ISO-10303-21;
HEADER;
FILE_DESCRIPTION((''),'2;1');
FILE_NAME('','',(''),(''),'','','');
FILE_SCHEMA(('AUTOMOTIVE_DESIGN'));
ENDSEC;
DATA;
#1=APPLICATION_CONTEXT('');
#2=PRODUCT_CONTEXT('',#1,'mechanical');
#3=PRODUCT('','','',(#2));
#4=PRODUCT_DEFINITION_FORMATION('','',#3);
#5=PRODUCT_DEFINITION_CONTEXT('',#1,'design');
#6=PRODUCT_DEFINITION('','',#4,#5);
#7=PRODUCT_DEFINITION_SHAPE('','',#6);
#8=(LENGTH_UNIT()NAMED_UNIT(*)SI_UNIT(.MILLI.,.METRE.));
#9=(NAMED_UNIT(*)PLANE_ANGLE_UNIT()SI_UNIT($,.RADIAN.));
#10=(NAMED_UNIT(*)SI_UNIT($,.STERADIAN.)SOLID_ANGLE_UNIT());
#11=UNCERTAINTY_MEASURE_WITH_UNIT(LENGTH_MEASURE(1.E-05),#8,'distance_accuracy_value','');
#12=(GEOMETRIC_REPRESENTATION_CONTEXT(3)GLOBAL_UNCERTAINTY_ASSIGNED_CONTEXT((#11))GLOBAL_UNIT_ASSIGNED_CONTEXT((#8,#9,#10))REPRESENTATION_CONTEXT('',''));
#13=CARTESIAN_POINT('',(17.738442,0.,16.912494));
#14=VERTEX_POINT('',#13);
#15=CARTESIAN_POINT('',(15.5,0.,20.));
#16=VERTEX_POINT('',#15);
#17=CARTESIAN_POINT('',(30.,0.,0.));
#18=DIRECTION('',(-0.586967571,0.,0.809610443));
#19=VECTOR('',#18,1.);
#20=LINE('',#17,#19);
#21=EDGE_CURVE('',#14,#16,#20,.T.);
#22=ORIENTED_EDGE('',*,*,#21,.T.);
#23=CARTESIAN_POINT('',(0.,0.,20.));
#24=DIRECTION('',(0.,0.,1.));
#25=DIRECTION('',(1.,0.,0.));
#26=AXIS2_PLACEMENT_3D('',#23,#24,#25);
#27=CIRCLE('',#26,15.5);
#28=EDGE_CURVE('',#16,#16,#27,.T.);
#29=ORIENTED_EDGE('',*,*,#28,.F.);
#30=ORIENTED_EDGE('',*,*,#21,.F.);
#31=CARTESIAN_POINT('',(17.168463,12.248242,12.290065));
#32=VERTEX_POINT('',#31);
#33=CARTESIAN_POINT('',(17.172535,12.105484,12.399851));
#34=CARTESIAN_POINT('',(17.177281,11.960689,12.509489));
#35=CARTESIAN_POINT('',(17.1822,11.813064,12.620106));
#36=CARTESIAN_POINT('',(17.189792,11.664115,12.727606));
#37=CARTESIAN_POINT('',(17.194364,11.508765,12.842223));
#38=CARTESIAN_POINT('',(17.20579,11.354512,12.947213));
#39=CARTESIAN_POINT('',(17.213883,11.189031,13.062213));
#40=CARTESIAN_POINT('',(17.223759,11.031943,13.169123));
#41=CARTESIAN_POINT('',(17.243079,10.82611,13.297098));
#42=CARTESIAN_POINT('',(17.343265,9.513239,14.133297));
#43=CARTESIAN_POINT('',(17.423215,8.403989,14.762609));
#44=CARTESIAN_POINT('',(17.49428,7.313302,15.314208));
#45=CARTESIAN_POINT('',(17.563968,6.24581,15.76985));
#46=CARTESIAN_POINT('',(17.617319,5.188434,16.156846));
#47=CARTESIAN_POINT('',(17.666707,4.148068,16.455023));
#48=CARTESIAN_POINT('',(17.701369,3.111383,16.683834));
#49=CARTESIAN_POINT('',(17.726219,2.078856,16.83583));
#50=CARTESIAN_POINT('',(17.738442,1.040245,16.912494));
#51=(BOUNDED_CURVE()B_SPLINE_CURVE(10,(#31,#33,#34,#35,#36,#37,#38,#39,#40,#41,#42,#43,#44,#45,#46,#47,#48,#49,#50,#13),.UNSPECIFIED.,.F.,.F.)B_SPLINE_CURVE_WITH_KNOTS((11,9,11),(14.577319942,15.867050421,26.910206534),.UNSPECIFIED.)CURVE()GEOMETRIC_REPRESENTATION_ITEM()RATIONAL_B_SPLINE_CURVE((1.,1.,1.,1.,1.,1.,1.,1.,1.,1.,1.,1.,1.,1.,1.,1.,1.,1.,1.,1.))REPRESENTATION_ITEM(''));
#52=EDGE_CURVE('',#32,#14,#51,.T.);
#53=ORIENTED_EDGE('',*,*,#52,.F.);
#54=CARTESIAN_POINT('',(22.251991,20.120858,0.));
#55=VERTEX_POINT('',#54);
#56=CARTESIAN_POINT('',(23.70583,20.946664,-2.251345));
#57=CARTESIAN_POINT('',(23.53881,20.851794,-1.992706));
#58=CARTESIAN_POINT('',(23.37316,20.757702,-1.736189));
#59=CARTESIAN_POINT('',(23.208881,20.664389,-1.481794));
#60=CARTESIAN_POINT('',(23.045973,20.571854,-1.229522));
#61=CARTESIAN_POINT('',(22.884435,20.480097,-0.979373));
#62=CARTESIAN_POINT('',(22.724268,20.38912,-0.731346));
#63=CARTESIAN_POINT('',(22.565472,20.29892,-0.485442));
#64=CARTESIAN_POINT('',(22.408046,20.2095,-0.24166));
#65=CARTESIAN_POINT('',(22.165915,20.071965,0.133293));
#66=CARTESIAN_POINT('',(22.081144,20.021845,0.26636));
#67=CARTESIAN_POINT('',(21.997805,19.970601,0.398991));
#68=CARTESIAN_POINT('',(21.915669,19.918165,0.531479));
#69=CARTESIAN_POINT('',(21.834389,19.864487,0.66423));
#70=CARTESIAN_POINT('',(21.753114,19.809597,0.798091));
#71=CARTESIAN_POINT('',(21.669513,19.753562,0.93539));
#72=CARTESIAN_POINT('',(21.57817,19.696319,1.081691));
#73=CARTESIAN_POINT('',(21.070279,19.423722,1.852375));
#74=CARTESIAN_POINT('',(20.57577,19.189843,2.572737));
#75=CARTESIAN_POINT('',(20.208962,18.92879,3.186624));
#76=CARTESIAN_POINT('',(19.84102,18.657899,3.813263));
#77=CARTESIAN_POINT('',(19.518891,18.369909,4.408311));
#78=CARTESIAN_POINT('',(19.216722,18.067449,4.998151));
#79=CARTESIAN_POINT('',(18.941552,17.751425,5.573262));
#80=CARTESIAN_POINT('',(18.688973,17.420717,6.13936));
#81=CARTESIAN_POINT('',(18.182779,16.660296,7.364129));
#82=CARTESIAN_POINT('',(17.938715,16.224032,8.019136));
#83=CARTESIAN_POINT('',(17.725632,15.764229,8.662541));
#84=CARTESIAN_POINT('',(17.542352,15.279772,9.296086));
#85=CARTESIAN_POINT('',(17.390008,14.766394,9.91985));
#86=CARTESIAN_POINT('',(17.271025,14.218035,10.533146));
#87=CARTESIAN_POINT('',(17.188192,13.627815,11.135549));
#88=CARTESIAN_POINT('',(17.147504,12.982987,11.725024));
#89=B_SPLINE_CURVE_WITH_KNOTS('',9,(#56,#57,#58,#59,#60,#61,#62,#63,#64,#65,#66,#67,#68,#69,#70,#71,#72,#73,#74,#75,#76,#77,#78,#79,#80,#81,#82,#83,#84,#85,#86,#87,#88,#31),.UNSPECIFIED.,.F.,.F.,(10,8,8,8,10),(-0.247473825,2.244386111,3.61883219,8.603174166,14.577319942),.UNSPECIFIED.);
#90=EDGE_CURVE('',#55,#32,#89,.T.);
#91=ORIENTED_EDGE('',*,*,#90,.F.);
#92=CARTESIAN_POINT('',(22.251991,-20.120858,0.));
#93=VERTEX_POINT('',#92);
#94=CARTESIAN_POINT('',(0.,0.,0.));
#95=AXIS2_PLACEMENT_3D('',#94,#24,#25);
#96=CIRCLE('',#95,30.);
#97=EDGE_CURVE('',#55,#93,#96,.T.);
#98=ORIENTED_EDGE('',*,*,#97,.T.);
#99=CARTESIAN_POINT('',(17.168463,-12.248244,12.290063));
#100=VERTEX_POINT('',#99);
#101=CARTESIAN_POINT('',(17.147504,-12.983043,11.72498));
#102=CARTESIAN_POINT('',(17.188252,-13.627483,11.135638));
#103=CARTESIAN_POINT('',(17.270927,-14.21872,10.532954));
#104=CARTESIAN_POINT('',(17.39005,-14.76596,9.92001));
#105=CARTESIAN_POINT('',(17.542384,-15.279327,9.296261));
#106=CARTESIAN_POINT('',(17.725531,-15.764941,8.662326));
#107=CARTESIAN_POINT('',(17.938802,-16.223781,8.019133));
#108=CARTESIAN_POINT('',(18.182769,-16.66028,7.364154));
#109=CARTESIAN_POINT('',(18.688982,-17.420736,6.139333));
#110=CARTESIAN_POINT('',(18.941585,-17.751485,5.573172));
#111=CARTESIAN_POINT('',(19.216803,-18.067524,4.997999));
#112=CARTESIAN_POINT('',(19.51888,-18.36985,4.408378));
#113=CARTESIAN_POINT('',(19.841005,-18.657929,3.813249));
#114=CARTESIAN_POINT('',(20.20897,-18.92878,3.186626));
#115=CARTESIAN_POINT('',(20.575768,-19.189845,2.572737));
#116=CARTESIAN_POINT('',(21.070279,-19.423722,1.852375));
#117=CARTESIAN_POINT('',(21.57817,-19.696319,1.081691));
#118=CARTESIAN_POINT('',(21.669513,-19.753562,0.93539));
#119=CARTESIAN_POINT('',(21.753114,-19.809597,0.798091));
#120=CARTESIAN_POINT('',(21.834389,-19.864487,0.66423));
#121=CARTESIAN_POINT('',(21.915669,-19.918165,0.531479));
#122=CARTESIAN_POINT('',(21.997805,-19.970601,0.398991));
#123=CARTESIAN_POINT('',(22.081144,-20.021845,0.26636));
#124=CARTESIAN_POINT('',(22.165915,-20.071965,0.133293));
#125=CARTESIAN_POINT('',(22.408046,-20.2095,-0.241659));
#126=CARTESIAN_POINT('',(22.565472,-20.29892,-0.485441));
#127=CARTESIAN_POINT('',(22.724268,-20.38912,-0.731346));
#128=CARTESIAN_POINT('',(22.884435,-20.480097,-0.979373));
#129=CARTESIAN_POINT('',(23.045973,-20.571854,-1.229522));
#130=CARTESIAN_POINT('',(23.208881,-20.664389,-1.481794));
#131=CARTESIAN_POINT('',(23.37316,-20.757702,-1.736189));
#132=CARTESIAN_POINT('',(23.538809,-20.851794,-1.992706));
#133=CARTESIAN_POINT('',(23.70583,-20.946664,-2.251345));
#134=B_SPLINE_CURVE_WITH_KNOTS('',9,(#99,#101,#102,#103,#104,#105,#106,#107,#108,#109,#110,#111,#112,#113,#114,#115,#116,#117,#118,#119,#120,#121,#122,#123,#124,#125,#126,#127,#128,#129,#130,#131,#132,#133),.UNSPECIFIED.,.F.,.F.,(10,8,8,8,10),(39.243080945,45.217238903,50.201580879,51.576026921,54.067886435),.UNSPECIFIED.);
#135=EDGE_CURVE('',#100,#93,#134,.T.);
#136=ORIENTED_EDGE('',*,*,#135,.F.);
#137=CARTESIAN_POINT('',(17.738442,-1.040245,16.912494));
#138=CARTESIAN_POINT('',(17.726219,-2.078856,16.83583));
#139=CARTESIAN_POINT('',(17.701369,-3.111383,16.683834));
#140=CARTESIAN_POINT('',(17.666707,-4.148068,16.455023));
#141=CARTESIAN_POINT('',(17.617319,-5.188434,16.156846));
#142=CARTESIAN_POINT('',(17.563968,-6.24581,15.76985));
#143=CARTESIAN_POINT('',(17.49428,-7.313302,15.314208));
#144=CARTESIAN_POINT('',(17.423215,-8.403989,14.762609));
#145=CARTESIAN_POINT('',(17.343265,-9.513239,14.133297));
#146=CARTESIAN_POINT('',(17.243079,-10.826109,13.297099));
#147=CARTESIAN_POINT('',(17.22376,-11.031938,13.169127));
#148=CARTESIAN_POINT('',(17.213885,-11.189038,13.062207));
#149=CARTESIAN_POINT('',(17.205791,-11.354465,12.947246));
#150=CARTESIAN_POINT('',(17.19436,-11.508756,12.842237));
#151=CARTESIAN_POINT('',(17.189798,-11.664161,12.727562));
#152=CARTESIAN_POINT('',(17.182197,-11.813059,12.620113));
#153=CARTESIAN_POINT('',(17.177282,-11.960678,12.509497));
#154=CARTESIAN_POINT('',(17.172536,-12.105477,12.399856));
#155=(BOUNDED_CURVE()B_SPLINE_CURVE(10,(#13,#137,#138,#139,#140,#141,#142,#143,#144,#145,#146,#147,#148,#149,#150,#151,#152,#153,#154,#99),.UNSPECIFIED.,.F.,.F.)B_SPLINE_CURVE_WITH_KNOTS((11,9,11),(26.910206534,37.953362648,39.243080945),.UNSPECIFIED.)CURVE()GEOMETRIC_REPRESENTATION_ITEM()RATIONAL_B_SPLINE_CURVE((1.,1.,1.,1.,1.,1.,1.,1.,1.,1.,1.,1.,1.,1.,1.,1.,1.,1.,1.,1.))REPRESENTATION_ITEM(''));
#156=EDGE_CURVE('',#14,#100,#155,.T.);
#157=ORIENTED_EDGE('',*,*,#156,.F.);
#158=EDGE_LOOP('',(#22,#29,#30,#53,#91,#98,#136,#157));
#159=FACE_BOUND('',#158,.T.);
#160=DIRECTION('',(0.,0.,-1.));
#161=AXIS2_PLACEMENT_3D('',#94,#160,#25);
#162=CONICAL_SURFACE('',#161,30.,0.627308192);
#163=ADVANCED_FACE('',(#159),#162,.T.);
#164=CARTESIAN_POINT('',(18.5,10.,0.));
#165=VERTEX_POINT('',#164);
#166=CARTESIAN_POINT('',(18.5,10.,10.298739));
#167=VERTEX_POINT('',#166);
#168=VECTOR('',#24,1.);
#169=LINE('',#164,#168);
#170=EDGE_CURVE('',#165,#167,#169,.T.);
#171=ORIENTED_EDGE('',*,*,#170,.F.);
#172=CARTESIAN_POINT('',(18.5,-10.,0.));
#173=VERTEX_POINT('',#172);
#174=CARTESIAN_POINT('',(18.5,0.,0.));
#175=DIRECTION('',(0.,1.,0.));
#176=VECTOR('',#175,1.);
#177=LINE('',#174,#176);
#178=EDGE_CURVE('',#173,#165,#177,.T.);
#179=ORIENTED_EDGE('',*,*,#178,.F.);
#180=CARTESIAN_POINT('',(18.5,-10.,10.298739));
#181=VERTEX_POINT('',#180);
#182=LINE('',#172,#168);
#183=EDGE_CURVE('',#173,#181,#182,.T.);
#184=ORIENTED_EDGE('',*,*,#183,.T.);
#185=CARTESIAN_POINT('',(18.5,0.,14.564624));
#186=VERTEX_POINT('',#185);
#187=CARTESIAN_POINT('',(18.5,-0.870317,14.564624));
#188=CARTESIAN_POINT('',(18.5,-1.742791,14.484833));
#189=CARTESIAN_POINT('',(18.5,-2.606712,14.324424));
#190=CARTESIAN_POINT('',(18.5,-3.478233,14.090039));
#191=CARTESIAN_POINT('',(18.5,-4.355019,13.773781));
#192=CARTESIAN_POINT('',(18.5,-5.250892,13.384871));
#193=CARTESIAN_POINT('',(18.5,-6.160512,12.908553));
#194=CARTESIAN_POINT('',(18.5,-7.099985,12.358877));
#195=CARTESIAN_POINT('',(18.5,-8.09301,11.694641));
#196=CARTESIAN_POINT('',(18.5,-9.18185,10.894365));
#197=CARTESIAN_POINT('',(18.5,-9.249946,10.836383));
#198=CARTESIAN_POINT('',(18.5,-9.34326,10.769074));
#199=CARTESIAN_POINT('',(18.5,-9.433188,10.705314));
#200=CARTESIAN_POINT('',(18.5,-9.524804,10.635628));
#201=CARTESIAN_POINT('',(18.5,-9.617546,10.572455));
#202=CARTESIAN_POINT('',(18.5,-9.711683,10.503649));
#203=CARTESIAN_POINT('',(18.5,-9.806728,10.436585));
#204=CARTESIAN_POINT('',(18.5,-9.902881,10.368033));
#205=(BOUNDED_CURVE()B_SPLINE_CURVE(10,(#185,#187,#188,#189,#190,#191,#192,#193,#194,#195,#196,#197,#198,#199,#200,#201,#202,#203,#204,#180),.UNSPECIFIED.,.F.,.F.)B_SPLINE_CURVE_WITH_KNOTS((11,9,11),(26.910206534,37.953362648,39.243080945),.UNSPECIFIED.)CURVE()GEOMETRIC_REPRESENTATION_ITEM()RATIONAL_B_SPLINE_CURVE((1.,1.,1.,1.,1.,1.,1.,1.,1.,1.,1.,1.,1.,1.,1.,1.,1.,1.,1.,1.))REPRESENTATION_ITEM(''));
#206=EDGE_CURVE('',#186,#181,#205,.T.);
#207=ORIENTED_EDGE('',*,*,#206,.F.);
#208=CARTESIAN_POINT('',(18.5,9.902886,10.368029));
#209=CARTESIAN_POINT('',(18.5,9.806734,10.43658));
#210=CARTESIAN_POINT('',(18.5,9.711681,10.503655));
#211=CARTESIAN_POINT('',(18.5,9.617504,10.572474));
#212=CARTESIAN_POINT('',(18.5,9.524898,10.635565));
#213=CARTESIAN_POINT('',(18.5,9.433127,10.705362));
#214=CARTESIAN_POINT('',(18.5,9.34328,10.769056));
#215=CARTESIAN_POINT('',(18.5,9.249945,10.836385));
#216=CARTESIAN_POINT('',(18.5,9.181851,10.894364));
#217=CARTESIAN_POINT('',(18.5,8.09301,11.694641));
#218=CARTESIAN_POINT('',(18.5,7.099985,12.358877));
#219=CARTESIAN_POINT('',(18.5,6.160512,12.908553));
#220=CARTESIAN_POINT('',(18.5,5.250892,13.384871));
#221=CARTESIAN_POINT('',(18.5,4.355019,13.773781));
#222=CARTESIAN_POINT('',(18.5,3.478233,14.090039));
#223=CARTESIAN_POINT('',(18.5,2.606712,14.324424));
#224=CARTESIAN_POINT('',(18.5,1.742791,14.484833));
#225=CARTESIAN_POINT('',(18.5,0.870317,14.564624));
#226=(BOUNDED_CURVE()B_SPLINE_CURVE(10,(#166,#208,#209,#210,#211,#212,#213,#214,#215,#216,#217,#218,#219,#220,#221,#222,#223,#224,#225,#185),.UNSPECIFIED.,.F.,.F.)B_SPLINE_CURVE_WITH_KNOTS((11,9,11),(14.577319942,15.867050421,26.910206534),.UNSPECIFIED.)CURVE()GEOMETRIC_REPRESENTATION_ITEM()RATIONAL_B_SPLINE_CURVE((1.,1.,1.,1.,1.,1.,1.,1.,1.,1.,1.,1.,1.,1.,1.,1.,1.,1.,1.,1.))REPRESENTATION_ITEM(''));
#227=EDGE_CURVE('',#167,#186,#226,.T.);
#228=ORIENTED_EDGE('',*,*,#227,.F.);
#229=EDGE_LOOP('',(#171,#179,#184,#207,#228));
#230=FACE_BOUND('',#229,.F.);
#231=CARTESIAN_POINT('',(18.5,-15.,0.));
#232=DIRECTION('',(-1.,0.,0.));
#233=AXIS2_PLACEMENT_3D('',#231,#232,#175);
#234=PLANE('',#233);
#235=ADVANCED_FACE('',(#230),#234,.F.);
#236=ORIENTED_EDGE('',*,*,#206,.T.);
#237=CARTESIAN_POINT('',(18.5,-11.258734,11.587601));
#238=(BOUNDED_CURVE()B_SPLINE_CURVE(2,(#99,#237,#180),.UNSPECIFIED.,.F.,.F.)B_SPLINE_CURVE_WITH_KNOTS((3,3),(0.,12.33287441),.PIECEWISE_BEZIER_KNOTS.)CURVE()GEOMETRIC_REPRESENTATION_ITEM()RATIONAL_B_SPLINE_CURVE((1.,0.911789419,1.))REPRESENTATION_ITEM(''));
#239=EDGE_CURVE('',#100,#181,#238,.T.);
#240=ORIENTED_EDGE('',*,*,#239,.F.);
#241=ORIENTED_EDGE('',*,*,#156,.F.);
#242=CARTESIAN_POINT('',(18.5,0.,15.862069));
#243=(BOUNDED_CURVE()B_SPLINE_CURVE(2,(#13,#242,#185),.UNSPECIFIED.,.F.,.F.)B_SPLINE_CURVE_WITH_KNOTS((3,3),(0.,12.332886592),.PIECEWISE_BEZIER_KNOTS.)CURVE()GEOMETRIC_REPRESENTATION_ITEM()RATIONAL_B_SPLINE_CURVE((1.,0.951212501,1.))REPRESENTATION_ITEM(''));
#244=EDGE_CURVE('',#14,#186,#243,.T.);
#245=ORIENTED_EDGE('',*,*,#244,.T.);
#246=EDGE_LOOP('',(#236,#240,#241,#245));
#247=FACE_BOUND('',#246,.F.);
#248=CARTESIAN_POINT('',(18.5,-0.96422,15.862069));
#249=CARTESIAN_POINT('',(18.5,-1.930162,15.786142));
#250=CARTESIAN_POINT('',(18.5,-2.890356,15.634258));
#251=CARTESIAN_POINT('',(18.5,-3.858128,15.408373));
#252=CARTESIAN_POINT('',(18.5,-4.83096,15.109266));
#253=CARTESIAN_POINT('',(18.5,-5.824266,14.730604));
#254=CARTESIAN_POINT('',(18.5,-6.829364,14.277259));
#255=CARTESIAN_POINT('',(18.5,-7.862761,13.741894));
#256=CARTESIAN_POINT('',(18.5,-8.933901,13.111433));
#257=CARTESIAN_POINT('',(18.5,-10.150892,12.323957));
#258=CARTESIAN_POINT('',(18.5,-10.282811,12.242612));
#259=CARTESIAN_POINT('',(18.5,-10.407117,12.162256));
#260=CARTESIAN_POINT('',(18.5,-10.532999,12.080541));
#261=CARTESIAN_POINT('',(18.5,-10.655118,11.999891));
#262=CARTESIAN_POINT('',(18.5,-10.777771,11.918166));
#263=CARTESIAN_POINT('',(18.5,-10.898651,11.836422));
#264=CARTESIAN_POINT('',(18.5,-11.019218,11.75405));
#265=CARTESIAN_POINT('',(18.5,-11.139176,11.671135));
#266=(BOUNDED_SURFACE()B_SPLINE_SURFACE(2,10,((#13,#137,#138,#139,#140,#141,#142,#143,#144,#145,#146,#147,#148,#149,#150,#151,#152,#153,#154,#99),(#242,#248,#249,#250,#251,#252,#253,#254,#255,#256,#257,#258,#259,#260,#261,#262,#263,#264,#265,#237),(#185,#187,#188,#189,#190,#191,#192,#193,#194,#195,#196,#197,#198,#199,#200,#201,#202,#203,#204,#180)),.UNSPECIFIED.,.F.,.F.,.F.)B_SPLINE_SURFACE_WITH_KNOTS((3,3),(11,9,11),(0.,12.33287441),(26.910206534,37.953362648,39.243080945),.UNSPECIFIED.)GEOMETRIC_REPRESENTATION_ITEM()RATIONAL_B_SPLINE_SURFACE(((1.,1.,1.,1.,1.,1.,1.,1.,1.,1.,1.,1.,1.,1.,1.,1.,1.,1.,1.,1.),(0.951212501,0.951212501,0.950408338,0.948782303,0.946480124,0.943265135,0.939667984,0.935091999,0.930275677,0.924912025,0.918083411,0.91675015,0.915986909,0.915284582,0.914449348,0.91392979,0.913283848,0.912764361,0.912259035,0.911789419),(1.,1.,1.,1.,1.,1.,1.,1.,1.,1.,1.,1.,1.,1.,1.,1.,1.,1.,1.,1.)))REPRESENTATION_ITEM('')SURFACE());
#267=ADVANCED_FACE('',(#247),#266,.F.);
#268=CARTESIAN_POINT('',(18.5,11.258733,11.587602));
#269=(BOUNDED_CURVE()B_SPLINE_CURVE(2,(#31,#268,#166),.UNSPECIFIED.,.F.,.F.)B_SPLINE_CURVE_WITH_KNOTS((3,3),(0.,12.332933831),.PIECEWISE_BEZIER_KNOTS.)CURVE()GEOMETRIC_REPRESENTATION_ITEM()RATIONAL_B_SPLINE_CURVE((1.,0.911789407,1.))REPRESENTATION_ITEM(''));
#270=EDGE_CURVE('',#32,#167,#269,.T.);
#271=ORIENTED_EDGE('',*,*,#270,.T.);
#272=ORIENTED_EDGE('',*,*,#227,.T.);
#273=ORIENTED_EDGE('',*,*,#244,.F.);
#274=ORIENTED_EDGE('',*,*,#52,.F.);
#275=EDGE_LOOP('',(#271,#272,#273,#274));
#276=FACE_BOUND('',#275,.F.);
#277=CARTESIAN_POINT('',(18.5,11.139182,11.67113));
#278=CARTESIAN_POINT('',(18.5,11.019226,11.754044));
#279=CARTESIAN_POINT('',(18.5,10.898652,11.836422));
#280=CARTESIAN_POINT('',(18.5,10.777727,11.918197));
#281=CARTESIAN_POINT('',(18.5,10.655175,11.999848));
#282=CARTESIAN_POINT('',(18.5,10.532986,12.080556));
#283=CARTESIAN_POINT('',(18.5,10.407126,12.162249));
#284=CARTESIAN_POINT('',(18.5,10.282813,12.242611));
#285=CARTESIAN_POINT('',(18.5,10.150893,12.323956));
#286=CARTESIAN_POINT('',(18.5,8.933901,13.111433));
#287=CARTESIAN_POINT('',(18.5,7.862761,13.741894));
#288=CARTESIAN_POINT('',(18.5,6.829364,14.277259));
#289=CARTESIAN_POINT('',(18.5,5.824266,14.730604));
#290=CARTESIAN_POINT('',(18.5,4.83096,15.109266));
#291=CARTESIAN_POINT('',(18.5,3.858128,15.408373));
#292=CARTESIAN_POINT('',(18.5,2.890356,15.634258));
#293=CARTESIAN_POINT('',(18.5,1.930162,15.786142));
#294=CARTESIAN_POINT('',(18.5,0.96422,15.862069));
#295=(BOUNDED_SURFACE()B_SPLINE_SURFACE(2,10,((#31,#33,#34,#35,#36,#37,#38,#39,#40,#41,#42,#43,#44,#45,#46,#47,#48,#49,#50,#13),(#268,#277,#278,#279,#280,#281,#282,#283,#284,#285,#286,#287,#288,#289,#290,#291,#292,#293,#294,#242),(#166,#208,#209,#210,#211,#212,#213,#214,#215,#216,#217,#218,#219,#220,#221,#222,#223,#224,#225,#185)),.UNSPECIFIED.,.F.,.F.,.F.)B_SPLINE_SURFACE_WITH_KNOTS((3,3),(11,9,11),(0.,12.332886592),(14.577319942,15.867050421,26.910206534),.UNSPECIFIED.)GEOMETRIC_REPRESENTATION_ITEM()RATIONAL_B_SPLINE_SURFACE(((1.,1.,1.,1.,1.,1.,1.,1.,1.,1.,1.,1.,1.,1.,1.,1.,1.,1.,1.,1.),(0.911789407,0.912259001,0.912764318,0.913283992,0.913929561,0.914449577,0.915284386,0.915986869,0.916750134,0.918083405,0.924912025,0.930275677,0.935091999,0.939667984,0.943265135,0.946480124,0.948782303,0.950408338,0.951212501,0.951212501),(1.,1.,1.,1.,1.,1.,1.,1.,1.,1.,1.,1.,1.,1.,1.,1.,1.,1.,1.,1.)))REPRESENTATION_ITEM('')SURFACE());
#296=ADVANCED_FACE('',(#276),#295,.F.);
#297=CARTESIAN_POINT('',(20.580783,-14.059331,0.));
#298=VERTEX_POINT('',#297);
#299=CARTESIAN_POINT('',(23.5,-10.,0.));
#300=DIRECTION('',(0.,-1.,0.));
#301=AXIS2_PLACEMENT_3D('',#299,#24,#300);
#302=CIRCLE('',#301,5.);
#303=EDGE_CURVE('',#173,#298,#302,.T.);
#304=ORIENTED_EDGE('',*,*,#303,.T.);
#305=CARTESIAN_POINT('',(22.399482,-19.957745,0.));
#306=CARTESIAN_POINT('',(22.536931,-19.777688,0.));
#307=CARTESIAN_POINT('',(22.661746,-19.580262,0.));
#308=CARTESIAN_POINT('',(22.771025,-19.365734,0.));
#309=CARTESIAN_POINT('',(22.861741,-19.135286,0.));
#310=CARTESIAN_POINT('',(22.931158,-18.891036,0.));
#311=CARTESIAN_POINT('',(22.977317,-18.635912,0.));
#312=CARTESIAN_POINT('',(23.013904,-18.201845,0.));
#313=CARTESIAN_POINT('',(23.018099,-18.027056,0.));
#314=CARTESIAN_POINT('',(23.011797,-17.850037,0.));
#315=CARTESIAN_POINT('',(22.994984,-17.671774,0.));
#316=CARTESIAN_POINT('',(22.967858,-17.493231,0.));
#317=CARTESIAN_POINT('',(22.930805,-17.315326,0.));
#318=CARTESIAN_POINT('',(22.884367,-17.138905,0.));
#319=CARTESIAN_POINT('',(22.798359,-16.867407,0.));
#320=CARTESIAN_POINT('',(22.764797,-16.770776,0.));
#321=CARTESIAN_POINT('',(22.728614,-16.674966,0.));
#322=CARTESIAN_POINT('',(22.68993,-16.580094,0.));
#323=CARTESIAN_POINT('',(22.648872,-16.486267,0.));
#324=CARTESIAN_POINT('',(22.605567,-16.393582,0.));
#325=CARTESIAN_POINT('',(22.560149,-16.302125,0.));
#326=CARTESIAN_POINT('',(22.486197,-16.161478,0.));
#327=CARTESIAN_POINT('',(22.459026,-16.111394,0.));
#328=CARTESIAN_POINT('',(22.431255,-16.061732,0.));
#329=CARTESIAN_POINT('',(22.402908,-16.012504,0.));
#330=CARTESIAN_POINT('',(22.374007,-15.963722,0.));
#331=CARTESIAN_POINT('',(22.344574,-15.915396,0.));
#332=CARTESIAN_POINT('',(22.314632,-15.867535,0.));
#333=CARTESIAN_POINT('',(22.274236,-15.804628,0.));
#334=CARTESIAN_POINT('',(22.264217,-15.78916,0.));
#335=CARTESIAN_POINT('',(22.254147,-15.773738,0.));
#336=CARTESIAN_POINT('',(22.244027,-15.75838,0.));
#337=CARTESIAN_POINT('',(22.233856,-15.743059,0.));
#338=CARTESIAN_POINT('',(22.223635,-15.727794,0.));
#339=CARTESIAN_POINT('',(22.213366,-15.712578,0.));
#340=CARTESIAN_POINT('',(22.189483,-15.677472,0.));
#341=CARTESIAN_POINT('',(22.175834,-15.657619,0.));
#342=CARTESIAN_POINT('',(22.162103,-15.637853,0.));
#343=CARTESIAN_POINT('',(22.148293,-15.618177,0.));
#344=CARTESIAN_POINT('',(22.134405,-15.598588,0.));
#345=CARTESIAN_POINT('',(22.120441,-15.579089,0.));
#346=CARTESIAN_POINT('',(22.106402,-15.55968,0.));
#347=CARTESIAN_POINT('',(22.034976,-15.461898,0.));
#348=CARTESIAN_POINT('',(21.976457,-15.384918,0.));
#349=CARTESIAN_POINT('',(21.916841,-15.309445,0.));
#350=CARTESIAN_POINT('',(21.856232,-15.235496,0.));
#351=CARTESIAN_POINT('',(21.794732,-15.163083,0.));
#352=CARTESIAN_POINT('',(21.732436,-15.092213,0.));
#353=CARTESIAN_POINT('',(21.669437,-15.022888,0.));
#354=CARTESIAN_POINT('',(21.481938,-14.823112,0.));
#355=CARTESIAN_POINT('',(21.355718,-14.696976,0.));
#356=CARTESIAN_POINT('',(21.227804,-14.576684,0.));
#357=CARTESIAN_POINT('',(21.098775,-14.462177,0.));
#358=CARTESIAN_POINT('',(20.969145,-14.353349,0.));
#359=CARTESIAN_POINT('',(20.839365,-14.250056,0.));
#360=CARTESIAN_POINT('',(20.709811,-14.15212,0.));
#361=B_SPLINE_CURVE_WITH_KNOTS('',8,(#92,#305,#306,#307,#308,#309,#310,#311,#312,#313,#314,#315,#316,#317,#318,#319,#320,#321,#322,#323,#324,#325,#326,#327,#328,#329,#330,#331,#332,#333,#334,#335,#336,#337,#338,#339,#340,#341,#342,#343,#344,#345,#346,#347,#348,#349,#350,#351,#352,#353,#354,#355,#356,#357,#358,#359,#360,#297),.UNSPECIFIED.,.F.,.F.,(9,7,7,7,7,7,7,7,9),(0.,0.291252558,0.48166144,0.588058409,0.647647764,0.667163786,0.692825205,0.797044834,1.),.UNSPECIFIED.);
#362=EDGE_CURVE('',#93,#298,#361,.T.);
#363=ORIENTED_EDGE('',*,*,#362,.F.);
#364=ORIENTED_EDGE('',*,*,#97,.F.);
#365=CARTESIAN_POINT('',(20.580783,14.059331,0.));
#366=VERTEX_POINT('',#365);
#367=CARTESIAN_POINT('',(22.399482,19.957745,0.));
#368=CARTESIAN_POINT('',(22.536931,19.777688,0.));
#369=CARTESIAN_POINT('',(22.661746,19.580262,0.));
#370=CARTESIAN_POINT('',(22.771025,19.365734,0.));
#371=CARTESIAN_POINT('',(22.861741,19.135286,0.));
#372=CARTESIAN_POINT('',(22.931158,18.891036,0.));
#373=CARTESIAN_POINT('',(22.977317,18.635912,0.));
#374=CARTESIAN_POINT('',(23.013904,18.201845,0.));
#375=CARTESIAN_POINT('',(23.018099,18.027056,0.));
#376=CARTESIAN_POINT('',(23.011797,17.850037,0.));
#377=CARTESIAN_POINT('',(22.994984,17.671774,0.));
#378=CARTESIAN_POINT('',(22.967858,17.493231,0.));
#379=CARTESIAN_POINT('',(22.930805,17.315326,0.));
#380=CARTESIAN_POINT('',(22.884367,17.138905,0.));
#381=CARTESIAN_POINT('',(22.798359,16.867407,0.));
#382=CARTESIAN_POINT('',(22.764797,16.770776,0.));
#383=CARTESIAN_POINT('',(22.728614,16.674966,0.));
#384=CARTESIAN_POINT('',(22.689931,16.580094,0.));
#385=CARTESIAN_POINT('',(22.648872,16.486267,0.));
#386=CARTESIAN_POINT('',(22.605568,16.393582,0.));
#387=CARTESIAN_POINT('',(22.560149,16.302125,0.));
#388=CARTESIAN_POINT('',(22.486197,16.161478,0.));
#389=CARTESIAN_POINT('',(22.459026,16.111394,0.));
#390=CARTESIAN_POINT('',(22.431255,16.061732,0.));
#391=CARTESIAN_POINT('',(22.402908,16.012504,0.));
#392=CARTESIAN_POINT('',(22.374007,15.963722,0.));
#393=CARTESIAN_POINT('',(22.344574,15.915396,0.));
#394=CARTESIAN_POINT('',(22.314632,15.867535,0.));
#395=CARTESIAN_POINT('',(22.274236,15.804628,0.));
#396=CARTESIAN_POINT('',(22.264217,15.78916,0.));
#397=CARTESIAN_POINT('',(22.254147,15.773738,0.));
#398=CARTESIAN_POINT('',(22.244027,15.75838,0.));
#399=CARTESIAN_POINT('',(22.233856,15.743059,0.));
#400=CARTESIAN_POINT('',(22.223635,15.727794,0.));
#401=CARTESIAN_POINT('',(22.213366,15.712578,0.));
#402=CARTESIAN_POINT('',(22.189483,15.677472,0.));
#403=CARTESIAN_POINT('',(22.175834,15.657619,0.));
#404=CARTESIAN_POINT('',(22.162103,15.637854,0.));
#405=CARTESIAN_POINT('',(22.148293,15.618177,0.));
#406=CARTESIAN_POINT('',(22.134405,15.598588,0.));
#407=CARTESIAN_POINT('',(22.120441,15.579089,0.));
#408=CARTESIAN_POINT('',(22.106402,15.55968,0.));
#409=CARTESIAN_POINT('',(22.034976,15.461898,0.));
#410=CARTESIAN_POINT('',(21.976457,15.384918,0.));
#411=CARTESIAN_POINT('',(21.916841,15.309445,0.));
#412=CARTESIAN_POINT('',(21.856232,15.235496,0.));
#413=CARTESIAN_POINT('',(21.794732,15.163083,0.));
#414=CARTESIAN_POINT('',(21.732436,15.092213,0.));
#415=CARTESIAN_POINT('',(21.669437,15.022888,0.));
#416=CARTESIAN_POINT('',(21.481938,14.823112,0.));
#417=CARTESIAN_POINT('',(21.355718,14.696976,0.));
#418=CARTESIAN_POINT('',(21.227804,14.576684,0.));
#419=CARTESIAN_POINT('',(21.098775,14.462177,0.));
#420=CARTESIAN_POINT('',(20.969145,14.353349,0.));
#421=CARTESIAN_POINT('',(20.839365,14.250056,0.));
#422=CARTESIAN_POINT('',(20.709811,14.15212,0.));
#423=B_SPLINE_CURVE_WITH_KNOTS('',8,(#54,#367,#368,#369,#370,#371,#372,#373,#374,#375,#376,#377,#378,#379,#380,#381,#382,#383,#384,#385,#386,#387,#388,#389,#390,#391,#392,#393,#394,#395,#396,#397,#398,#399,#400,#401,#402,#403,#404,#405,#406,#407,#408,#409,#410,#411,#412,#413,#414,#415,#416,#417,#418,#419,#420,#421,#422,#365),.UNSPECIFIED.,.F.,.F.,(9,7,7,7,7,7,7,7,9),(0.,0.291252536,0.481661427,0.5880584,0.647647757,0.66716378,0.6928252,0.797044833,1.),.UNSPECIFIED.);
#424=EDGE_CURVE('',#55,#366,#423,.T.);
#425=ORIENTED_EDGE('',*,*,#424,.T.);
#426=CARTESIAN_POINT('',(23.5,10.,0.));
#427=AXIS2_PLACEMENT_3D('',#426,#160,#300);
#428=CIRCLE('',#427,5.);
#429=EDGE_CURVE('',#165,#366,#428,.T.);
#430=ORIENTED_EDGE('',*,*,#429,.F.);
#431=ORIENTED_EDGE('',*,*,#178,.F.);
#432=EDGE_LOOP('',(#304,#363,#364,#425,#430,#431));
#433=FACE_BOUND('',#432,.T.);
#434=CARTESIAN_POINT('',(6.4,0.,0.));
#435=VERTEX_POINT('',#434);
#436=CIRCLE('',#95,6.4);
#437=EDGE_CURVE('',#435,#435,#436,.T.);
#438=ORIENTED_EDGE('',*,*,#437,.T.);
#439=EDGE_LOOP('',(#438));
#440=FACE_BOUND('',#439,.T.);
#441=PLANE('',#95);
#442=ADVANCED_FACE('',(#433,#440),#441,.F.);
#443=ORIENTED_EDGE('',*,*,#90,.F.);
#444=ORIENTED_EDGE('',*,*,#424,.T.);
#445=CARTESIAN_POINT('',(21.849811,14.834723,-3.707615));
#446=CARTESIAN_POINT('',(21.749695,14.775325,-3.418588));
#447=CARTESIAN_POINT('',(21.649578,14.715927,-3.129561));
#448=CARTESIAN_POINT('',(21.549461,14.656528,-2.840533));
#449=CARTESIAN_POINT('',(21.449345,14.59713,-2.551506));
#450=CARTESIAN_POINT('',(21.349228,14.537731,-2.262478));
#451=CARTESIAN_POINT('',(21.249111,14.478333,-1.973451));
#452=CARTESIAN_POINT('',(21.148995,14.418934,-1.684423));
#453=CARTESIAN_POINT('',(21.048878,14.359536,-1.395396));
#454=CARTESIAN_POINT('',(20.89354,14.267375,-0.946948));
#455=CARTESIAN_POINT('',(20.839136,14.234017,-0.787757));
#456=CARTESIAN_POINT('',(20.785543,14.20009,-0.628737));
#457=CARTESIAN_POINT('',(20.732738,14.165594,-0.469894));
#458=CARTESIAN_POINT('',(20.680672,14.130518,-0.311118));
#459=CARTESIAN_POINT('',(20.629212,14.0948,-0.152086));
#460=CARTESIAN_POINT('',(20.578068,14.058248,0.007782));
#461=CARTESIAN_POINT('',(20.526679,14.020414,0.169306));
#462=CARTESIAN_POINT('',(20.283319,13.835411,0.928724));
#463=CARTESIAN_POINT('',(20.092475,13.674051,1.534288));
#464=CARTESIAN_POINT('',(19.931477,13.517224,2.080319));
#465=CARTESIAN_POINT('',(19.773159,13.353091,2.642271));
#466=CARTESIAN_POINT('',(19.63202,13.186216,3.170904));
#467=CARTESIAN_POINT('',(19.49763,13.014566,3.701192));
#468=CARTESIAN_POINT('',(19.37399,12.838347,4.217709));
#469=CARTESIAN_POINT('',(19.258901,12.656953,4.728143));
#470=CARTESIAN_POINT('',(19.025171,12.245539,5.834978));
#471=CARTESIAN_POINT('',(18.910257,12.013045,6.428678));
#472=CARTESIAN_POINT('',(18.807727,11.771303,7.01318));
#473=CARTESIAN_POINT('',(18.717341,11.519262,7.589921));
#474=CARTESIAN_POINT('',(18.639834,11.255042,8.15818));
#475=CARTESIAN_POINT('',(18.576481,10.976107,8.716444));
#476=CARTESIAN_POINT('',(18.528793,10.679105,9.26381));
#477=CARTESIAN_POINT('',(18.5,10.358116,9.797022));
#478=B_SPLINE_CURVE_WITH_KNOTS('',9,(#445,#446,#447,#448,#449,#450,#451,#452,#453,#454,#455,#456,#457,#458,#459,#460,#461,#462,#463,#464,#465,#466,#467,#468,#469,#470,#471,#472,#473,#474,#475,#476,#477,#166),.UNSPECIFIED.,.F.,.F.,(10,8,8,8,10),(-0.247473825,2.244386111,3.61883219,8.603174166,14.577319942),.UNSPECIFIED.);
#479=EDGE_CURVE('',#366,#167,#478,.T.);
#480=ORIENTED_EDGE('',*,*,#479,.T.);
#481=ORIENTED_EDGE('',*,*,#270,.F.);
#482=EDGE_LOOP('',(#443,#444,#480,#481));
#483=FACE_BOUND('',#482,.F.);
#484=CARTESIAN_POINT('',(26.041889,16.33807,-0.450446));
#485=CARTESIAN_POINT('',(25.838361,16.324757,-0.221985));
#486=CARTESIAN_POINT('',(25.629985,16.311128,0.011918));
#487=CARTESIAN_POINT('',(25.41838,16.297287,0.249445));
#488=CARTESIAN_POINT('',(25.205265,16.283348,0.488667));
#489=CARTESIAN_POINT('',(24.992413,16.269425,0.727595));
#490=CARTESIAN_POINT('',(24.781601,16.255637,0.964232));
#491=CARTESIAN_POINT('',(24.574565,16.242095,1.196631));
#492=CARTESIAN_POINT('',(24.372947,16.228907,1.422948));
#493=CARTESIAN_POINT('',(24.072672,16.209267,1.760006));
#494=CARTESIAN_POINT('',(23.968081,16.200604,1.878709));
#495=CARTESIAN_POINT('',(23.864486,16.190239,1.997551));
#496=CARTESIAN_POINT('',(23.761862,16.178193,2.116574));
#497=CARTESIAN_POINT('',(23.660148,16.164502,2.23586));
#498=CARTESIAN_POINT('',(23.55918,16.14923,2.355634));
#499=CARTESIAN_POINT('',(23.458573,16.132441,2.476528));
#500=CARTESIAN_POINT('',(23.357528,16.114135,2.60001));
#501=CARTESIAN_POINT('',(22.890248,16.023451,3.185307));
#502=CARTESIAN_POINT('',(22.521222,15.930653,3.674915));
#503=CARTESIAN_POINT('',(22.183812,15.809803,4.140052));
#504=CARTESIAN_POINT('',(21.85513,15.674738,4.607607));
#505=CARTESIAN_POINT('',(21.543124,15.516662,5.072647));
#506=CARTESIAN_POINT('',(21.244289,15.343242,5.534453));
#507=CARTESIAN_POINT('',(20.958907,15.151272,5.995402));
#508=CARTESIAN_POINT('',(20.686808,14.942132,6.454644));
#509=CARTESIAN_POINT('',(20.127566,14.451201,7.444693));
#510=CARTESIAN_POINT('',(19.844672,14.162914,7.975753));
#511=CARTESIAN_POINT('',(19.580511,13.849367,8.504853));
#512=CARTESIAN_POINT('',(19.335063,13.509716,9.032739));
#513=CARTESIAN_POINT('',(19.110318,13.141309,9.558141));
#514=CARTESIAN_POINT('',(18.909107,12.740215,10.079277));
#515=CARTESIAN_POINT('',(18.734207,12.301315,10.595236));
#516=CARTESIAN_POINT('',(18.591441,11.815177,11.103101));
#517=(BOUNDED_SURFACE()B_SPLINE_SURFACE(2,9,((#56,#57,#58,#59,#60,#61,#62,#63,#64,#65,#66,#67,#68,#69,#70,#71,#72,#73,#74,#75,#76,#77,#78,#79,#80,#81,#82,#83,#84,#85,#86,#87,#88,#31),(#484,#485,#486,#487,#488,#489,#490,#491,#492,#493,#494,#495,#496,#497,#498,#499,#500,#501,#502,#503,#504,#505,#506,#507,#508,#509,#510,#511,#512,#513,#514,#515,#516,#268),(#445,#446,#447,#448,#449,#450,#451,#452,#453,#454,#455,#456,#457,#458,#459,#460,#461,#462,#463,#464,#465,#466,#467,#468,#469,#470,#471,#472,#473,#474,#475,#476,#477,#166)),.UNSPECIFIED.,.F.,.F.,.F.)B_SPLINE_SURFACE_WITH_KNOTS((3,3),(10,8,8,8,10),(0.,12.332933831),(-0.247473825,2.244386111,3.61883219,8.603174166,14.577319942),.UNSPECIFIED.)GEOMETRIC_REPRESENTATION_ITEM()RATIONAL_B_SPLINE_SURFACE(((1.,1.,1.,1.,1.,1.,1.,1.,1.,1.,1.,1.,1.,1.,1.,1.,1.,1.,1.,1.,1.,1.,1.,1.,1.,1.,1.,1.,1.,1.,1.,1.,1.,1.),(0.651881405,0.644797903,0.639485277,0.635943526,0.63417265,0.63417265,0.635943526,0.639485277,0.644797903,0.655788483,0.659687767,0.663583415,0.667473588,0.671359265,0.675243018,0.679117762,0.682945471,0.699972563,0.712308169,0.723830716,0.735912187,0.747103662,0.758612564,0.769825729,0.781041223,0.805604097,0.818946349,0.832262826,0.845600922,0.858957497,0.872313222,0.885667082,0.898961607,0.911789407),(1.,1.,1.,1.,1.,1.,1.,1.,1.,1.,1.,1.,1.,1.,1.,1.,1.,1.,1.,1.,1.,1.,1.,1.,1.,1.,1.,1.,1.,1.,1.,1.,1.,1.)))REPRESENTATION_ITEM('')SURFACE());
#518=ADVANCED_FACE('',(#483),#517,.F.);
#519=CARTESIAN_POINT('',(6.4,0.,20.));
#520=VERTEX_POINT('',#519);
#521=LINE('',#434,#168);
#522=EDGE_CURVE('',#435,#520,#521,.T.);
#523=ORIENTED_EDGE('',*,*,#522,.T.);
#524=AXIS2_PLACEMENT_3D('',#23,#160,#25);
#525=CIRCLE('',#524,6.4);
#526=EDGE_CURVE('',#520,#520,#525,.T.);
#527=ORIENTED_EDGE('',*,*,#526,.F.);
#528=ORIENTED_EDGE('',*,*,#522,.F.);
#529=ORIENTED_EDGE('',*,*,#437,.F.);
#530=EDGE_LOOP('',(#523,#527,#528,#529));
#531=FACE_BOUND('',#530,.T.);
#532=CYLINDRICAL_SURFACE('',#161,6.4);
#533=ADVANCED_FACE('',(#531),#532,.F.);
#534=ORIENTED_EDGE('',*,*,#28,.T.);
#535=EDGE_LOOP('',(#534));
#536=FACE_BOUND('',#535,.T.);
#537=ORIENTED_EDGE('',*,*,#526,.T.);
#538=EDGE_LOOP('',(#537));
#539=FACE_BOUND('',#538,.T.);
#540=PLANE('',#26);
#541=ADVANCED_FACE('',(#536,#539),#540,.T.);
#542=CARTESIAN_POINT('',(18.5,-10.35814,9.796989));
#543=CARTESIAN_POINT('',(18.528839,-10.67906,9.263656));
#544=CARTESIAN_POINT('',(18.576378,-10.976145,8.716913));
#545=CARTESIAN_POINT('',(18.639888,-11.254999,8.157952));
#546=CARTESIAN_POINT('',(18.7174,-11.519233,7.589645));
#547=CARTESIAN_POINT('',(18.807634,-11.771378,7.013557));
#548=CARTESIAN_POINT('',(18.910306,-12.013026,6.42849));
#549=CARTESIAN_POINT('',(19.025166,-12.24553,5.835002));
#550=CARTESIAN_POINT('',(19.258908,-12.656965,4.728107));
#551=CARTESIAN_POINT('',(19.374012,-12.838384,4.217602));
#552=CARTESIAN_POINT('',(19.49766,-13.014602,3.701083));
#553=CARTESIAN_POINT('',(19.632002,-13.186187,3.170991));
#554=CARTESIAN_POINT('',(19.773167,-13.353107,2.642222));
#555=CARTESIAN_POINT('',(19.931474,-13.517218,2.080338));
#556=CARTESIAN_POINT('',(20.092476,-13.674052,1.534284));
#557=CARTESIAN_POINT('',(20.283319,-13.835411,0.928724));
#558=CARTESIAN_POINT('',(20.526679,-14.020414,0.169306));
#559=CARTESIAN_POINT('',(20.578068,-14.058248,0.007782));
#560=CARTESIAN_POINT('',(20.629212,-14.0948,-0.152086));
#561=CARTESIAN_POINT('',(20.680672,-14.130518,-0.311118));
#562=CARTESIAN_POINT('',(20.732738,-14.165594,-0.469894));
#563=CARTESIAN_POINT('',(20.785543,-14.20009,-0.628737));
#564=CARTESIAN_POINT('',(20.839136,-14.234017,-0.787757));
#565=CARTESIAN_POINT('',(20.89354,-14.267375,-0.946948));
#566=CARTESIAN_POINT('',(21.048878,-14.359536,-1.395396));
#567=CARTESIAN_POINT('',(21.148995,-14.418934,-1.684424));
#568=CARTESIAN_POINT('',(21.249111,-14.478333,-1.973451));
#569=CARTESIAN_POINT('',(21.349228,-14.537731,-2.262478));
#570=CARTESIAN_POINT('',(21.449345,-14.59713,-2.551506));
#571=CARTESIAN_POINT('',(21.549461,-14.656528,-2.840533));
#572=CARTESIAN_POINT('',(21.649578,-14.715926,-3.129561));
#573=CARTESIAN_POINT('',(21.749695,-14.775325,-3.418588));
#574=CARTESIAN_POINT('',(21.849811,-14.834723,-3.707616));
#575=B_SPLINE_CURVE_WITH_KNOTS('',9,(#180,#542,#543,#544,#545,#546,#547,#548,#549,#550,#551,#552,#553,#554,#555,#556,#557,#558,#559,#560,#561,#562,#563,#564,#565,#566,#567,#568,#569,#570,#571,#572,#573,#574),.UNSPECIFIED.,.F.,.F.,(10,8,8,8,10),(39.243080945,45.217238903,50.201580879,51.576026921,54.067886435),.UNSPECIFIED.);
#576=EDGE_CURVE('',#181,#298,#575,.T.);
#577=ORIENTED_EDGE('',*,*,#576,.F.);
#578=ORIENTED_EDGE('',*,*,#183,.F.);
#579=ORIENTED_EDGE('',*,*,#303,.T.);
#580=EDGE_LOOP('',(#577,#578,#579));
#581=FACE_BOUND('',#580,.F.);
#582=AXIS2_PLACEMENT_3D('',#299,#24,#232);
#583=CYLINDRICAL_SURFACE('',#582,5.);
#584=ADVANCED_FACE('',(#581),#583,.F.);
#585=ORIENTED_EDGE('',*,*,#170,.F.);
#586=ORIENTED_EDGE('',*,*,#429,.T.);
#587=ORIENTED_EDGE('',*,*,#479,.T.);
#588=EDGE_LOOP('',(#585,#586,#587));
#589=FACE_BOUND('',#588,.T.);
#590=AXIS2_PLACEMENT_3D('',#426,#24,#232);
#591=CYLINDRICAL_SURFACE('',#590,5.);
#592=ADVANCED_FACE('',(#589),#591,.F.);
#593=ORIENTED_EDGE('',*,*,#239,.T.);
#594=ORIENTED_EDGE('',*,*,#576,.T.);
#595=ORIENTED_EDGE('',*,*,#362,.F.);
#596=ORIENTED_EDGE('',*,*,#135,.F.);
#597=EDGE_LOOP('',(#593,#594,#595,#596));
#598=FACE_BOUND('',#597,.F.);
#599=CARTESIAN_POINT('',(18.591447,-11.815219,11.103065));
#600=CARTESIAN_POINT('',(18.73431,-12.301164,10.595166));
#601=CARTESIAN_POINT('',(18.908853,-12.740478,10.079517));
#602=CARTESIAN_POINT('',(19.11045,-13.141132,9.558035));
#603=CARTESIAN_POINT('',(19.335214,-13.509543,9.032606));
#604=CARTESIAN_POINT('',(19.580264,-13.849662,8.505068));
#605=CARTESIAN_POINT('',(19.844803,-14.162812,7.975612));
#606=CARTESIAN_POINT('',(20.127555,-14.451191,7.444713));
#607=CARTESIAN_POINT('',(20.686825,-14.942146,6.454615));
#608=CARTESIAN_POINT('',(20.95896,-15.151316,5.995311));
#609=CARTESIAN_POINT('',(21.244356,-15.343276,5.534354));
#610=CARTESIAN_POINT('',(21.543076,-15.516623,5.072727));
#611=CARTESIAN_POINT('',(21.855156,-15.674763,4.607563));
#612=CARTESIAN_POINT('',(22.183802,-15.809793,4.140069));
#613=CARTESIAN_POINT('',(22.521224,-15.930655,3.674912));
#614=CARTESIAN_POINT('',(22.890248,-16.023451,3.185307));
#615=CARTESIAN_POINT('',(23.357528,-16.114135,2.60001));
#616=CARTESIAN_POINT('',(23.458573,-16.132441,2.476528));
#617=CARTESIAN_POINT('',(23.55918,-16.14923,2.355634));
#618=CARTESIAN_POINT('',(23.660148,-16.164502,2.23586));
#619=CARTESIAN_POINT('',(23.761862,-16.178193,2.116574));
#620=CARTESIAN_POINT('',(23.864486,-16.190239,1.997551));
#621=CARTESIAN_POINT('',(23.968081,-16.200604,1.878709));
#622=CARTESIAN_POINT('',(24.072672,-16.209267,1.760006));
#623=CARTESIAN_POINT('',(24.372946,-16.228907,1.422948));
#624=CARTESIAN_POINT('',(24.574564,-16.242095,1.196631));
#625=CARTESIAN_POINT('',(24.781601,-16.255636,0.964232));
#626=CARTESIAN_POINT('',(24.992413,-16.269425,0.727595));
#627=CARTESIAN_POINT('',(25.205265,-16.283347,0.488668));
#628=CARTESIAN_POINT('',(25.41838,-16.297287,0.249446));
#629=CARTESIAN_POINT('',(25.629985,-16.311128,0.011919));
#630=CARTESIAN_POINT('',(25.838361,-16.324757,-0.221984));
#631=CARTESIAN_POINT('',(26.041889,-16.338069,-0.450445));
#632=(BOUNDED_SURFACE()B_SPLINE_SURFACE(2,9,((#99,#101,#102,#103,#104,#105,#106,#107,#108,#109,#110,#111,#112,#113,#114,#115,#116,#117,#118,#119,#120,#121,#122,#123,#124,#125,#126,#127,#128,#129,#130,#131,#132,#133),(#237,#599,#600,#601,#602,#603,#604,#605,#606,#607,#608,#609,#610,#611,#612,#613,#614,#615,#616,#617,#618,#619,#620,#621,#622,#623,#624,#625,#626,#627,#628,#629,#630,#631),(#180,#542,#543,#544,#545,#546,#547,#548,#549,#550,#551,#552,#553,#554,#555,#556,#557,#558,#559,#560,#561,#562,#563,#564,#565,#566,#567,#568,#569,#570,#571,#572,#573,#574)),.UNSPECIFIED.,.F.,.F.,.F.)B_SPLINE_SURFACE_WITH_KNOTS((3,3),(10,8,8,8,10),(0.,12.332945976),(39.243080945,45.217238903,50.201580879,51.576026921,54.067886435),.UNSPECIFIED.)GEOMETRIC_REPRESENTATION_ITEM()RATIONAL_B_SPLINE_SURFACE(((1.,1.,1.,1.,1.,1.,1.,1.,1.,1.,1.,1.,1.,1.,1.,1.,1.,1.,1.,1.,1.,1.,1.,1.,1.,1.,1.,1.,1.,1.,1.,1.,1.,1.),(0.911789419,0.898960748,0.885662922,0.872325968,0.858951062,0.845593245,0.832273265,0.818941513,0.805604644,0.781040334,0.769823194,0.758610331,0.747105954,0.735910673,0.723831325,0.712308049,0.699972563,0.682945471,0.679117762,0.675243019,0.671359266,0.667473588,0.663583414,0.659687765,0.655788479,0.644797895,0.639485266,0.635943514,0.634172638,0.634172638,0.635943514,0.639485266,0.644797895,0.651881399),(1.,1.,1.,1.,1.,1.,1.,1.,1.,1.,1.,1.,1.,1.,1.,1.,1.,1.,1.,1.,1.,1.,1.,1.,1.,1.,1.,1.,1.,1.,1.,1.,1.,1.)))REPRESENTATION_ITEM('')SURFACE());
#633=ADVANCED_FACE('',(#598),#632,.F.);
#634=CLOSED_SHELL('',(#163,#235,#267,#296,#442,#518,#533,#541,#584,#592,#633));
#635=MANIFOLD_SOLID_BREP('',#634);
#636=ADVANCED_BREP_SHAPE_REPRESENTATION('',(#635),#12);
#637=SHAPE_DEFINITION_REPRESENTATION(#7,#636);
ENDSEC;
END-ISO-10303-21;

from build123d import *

# Parameters (mm, degrees)
BOX_W          = 20
BOX_H          = 30
BOX_DEPTH      = 40
FILLET_R       = 5
CYLINDER_R     = 6.4
CYLINDER_DEPTH = 40
BOX001_W       = 40
BOX001_H       = 40
BOX001_DEPTH   = 40
FILLET001_R    = 4


with BuildPart() as weirdsidething:
    # Box → Box (new body)
    with BuildSketch(Plane(origin=(18.5, -15, 0), x_dir=(1, 0, 0), z_dir=(0, 0, 1))):
        with Locations((10, 15)):
            Rectangle(BOX_W, BOX_H)
    extrude(amount=BOX_DEPTH)

    # Fillet
    fillet_edges = [weirdsidething.edges().sort_by_distance(p)[0] for p in [
        (18.5, -15, 20),
        (18.5, 15, 20),
    ]]
    fillet(fillet_edges, radius=FILLET_R)


with BuildPart() as cylinder:
    # Cylinder → Cylinder (new body)
    with BuildSketch(Plane.XY):
        Circle(CYLINDER_R)
    extrude(amount=CYLINDER_DEPTH)


with BuildPart() as fusion001:
    # Box001 → Box001 (new body)
    with BuildSketch(Plane(origin=(-20, -20, 20), x_dir=(1, 0, 0), z_dir=(0, 0, 1))):
        with Locations((20, 20)):
            Rectangle(BOX001_W, BOX001_H)
    extrude(amount=BOX001_DEPTH)

    # Fusion: union Cylinder
    add(cylinder.part)

    # Fusion001: union weirdSideThing
    add(weirdsidething.part)


with BuildPart() as fillet001:
    # Cone → Cone (revolve)
    with BuildSketch(Plane.XZ):
        Polygon((0, 0), (30, 0), (1, 40), (0, 40), align=None)
    revolve(axis=Axis((0, 0, 0), (0, 0, 1)))

    # Cut: cut Fusion001
    add(fusion001.part, mode=Mode.SUBTRACT)

    # Fillet001
    fillet001_edges = [fillet001.edges().sort_by_distance(p)[0] for p in [
        (18.5, -5.247536, 14.855397),
        (20.110238, -13.675529, 7.835067),
        (20.110238, 13.675529, 7.835067),
        (18.5, 5.247536, 14.855397),
    ]]
    fillet(fillet001_edges, radius=FILLET001_R)


solid = fillet001.part
